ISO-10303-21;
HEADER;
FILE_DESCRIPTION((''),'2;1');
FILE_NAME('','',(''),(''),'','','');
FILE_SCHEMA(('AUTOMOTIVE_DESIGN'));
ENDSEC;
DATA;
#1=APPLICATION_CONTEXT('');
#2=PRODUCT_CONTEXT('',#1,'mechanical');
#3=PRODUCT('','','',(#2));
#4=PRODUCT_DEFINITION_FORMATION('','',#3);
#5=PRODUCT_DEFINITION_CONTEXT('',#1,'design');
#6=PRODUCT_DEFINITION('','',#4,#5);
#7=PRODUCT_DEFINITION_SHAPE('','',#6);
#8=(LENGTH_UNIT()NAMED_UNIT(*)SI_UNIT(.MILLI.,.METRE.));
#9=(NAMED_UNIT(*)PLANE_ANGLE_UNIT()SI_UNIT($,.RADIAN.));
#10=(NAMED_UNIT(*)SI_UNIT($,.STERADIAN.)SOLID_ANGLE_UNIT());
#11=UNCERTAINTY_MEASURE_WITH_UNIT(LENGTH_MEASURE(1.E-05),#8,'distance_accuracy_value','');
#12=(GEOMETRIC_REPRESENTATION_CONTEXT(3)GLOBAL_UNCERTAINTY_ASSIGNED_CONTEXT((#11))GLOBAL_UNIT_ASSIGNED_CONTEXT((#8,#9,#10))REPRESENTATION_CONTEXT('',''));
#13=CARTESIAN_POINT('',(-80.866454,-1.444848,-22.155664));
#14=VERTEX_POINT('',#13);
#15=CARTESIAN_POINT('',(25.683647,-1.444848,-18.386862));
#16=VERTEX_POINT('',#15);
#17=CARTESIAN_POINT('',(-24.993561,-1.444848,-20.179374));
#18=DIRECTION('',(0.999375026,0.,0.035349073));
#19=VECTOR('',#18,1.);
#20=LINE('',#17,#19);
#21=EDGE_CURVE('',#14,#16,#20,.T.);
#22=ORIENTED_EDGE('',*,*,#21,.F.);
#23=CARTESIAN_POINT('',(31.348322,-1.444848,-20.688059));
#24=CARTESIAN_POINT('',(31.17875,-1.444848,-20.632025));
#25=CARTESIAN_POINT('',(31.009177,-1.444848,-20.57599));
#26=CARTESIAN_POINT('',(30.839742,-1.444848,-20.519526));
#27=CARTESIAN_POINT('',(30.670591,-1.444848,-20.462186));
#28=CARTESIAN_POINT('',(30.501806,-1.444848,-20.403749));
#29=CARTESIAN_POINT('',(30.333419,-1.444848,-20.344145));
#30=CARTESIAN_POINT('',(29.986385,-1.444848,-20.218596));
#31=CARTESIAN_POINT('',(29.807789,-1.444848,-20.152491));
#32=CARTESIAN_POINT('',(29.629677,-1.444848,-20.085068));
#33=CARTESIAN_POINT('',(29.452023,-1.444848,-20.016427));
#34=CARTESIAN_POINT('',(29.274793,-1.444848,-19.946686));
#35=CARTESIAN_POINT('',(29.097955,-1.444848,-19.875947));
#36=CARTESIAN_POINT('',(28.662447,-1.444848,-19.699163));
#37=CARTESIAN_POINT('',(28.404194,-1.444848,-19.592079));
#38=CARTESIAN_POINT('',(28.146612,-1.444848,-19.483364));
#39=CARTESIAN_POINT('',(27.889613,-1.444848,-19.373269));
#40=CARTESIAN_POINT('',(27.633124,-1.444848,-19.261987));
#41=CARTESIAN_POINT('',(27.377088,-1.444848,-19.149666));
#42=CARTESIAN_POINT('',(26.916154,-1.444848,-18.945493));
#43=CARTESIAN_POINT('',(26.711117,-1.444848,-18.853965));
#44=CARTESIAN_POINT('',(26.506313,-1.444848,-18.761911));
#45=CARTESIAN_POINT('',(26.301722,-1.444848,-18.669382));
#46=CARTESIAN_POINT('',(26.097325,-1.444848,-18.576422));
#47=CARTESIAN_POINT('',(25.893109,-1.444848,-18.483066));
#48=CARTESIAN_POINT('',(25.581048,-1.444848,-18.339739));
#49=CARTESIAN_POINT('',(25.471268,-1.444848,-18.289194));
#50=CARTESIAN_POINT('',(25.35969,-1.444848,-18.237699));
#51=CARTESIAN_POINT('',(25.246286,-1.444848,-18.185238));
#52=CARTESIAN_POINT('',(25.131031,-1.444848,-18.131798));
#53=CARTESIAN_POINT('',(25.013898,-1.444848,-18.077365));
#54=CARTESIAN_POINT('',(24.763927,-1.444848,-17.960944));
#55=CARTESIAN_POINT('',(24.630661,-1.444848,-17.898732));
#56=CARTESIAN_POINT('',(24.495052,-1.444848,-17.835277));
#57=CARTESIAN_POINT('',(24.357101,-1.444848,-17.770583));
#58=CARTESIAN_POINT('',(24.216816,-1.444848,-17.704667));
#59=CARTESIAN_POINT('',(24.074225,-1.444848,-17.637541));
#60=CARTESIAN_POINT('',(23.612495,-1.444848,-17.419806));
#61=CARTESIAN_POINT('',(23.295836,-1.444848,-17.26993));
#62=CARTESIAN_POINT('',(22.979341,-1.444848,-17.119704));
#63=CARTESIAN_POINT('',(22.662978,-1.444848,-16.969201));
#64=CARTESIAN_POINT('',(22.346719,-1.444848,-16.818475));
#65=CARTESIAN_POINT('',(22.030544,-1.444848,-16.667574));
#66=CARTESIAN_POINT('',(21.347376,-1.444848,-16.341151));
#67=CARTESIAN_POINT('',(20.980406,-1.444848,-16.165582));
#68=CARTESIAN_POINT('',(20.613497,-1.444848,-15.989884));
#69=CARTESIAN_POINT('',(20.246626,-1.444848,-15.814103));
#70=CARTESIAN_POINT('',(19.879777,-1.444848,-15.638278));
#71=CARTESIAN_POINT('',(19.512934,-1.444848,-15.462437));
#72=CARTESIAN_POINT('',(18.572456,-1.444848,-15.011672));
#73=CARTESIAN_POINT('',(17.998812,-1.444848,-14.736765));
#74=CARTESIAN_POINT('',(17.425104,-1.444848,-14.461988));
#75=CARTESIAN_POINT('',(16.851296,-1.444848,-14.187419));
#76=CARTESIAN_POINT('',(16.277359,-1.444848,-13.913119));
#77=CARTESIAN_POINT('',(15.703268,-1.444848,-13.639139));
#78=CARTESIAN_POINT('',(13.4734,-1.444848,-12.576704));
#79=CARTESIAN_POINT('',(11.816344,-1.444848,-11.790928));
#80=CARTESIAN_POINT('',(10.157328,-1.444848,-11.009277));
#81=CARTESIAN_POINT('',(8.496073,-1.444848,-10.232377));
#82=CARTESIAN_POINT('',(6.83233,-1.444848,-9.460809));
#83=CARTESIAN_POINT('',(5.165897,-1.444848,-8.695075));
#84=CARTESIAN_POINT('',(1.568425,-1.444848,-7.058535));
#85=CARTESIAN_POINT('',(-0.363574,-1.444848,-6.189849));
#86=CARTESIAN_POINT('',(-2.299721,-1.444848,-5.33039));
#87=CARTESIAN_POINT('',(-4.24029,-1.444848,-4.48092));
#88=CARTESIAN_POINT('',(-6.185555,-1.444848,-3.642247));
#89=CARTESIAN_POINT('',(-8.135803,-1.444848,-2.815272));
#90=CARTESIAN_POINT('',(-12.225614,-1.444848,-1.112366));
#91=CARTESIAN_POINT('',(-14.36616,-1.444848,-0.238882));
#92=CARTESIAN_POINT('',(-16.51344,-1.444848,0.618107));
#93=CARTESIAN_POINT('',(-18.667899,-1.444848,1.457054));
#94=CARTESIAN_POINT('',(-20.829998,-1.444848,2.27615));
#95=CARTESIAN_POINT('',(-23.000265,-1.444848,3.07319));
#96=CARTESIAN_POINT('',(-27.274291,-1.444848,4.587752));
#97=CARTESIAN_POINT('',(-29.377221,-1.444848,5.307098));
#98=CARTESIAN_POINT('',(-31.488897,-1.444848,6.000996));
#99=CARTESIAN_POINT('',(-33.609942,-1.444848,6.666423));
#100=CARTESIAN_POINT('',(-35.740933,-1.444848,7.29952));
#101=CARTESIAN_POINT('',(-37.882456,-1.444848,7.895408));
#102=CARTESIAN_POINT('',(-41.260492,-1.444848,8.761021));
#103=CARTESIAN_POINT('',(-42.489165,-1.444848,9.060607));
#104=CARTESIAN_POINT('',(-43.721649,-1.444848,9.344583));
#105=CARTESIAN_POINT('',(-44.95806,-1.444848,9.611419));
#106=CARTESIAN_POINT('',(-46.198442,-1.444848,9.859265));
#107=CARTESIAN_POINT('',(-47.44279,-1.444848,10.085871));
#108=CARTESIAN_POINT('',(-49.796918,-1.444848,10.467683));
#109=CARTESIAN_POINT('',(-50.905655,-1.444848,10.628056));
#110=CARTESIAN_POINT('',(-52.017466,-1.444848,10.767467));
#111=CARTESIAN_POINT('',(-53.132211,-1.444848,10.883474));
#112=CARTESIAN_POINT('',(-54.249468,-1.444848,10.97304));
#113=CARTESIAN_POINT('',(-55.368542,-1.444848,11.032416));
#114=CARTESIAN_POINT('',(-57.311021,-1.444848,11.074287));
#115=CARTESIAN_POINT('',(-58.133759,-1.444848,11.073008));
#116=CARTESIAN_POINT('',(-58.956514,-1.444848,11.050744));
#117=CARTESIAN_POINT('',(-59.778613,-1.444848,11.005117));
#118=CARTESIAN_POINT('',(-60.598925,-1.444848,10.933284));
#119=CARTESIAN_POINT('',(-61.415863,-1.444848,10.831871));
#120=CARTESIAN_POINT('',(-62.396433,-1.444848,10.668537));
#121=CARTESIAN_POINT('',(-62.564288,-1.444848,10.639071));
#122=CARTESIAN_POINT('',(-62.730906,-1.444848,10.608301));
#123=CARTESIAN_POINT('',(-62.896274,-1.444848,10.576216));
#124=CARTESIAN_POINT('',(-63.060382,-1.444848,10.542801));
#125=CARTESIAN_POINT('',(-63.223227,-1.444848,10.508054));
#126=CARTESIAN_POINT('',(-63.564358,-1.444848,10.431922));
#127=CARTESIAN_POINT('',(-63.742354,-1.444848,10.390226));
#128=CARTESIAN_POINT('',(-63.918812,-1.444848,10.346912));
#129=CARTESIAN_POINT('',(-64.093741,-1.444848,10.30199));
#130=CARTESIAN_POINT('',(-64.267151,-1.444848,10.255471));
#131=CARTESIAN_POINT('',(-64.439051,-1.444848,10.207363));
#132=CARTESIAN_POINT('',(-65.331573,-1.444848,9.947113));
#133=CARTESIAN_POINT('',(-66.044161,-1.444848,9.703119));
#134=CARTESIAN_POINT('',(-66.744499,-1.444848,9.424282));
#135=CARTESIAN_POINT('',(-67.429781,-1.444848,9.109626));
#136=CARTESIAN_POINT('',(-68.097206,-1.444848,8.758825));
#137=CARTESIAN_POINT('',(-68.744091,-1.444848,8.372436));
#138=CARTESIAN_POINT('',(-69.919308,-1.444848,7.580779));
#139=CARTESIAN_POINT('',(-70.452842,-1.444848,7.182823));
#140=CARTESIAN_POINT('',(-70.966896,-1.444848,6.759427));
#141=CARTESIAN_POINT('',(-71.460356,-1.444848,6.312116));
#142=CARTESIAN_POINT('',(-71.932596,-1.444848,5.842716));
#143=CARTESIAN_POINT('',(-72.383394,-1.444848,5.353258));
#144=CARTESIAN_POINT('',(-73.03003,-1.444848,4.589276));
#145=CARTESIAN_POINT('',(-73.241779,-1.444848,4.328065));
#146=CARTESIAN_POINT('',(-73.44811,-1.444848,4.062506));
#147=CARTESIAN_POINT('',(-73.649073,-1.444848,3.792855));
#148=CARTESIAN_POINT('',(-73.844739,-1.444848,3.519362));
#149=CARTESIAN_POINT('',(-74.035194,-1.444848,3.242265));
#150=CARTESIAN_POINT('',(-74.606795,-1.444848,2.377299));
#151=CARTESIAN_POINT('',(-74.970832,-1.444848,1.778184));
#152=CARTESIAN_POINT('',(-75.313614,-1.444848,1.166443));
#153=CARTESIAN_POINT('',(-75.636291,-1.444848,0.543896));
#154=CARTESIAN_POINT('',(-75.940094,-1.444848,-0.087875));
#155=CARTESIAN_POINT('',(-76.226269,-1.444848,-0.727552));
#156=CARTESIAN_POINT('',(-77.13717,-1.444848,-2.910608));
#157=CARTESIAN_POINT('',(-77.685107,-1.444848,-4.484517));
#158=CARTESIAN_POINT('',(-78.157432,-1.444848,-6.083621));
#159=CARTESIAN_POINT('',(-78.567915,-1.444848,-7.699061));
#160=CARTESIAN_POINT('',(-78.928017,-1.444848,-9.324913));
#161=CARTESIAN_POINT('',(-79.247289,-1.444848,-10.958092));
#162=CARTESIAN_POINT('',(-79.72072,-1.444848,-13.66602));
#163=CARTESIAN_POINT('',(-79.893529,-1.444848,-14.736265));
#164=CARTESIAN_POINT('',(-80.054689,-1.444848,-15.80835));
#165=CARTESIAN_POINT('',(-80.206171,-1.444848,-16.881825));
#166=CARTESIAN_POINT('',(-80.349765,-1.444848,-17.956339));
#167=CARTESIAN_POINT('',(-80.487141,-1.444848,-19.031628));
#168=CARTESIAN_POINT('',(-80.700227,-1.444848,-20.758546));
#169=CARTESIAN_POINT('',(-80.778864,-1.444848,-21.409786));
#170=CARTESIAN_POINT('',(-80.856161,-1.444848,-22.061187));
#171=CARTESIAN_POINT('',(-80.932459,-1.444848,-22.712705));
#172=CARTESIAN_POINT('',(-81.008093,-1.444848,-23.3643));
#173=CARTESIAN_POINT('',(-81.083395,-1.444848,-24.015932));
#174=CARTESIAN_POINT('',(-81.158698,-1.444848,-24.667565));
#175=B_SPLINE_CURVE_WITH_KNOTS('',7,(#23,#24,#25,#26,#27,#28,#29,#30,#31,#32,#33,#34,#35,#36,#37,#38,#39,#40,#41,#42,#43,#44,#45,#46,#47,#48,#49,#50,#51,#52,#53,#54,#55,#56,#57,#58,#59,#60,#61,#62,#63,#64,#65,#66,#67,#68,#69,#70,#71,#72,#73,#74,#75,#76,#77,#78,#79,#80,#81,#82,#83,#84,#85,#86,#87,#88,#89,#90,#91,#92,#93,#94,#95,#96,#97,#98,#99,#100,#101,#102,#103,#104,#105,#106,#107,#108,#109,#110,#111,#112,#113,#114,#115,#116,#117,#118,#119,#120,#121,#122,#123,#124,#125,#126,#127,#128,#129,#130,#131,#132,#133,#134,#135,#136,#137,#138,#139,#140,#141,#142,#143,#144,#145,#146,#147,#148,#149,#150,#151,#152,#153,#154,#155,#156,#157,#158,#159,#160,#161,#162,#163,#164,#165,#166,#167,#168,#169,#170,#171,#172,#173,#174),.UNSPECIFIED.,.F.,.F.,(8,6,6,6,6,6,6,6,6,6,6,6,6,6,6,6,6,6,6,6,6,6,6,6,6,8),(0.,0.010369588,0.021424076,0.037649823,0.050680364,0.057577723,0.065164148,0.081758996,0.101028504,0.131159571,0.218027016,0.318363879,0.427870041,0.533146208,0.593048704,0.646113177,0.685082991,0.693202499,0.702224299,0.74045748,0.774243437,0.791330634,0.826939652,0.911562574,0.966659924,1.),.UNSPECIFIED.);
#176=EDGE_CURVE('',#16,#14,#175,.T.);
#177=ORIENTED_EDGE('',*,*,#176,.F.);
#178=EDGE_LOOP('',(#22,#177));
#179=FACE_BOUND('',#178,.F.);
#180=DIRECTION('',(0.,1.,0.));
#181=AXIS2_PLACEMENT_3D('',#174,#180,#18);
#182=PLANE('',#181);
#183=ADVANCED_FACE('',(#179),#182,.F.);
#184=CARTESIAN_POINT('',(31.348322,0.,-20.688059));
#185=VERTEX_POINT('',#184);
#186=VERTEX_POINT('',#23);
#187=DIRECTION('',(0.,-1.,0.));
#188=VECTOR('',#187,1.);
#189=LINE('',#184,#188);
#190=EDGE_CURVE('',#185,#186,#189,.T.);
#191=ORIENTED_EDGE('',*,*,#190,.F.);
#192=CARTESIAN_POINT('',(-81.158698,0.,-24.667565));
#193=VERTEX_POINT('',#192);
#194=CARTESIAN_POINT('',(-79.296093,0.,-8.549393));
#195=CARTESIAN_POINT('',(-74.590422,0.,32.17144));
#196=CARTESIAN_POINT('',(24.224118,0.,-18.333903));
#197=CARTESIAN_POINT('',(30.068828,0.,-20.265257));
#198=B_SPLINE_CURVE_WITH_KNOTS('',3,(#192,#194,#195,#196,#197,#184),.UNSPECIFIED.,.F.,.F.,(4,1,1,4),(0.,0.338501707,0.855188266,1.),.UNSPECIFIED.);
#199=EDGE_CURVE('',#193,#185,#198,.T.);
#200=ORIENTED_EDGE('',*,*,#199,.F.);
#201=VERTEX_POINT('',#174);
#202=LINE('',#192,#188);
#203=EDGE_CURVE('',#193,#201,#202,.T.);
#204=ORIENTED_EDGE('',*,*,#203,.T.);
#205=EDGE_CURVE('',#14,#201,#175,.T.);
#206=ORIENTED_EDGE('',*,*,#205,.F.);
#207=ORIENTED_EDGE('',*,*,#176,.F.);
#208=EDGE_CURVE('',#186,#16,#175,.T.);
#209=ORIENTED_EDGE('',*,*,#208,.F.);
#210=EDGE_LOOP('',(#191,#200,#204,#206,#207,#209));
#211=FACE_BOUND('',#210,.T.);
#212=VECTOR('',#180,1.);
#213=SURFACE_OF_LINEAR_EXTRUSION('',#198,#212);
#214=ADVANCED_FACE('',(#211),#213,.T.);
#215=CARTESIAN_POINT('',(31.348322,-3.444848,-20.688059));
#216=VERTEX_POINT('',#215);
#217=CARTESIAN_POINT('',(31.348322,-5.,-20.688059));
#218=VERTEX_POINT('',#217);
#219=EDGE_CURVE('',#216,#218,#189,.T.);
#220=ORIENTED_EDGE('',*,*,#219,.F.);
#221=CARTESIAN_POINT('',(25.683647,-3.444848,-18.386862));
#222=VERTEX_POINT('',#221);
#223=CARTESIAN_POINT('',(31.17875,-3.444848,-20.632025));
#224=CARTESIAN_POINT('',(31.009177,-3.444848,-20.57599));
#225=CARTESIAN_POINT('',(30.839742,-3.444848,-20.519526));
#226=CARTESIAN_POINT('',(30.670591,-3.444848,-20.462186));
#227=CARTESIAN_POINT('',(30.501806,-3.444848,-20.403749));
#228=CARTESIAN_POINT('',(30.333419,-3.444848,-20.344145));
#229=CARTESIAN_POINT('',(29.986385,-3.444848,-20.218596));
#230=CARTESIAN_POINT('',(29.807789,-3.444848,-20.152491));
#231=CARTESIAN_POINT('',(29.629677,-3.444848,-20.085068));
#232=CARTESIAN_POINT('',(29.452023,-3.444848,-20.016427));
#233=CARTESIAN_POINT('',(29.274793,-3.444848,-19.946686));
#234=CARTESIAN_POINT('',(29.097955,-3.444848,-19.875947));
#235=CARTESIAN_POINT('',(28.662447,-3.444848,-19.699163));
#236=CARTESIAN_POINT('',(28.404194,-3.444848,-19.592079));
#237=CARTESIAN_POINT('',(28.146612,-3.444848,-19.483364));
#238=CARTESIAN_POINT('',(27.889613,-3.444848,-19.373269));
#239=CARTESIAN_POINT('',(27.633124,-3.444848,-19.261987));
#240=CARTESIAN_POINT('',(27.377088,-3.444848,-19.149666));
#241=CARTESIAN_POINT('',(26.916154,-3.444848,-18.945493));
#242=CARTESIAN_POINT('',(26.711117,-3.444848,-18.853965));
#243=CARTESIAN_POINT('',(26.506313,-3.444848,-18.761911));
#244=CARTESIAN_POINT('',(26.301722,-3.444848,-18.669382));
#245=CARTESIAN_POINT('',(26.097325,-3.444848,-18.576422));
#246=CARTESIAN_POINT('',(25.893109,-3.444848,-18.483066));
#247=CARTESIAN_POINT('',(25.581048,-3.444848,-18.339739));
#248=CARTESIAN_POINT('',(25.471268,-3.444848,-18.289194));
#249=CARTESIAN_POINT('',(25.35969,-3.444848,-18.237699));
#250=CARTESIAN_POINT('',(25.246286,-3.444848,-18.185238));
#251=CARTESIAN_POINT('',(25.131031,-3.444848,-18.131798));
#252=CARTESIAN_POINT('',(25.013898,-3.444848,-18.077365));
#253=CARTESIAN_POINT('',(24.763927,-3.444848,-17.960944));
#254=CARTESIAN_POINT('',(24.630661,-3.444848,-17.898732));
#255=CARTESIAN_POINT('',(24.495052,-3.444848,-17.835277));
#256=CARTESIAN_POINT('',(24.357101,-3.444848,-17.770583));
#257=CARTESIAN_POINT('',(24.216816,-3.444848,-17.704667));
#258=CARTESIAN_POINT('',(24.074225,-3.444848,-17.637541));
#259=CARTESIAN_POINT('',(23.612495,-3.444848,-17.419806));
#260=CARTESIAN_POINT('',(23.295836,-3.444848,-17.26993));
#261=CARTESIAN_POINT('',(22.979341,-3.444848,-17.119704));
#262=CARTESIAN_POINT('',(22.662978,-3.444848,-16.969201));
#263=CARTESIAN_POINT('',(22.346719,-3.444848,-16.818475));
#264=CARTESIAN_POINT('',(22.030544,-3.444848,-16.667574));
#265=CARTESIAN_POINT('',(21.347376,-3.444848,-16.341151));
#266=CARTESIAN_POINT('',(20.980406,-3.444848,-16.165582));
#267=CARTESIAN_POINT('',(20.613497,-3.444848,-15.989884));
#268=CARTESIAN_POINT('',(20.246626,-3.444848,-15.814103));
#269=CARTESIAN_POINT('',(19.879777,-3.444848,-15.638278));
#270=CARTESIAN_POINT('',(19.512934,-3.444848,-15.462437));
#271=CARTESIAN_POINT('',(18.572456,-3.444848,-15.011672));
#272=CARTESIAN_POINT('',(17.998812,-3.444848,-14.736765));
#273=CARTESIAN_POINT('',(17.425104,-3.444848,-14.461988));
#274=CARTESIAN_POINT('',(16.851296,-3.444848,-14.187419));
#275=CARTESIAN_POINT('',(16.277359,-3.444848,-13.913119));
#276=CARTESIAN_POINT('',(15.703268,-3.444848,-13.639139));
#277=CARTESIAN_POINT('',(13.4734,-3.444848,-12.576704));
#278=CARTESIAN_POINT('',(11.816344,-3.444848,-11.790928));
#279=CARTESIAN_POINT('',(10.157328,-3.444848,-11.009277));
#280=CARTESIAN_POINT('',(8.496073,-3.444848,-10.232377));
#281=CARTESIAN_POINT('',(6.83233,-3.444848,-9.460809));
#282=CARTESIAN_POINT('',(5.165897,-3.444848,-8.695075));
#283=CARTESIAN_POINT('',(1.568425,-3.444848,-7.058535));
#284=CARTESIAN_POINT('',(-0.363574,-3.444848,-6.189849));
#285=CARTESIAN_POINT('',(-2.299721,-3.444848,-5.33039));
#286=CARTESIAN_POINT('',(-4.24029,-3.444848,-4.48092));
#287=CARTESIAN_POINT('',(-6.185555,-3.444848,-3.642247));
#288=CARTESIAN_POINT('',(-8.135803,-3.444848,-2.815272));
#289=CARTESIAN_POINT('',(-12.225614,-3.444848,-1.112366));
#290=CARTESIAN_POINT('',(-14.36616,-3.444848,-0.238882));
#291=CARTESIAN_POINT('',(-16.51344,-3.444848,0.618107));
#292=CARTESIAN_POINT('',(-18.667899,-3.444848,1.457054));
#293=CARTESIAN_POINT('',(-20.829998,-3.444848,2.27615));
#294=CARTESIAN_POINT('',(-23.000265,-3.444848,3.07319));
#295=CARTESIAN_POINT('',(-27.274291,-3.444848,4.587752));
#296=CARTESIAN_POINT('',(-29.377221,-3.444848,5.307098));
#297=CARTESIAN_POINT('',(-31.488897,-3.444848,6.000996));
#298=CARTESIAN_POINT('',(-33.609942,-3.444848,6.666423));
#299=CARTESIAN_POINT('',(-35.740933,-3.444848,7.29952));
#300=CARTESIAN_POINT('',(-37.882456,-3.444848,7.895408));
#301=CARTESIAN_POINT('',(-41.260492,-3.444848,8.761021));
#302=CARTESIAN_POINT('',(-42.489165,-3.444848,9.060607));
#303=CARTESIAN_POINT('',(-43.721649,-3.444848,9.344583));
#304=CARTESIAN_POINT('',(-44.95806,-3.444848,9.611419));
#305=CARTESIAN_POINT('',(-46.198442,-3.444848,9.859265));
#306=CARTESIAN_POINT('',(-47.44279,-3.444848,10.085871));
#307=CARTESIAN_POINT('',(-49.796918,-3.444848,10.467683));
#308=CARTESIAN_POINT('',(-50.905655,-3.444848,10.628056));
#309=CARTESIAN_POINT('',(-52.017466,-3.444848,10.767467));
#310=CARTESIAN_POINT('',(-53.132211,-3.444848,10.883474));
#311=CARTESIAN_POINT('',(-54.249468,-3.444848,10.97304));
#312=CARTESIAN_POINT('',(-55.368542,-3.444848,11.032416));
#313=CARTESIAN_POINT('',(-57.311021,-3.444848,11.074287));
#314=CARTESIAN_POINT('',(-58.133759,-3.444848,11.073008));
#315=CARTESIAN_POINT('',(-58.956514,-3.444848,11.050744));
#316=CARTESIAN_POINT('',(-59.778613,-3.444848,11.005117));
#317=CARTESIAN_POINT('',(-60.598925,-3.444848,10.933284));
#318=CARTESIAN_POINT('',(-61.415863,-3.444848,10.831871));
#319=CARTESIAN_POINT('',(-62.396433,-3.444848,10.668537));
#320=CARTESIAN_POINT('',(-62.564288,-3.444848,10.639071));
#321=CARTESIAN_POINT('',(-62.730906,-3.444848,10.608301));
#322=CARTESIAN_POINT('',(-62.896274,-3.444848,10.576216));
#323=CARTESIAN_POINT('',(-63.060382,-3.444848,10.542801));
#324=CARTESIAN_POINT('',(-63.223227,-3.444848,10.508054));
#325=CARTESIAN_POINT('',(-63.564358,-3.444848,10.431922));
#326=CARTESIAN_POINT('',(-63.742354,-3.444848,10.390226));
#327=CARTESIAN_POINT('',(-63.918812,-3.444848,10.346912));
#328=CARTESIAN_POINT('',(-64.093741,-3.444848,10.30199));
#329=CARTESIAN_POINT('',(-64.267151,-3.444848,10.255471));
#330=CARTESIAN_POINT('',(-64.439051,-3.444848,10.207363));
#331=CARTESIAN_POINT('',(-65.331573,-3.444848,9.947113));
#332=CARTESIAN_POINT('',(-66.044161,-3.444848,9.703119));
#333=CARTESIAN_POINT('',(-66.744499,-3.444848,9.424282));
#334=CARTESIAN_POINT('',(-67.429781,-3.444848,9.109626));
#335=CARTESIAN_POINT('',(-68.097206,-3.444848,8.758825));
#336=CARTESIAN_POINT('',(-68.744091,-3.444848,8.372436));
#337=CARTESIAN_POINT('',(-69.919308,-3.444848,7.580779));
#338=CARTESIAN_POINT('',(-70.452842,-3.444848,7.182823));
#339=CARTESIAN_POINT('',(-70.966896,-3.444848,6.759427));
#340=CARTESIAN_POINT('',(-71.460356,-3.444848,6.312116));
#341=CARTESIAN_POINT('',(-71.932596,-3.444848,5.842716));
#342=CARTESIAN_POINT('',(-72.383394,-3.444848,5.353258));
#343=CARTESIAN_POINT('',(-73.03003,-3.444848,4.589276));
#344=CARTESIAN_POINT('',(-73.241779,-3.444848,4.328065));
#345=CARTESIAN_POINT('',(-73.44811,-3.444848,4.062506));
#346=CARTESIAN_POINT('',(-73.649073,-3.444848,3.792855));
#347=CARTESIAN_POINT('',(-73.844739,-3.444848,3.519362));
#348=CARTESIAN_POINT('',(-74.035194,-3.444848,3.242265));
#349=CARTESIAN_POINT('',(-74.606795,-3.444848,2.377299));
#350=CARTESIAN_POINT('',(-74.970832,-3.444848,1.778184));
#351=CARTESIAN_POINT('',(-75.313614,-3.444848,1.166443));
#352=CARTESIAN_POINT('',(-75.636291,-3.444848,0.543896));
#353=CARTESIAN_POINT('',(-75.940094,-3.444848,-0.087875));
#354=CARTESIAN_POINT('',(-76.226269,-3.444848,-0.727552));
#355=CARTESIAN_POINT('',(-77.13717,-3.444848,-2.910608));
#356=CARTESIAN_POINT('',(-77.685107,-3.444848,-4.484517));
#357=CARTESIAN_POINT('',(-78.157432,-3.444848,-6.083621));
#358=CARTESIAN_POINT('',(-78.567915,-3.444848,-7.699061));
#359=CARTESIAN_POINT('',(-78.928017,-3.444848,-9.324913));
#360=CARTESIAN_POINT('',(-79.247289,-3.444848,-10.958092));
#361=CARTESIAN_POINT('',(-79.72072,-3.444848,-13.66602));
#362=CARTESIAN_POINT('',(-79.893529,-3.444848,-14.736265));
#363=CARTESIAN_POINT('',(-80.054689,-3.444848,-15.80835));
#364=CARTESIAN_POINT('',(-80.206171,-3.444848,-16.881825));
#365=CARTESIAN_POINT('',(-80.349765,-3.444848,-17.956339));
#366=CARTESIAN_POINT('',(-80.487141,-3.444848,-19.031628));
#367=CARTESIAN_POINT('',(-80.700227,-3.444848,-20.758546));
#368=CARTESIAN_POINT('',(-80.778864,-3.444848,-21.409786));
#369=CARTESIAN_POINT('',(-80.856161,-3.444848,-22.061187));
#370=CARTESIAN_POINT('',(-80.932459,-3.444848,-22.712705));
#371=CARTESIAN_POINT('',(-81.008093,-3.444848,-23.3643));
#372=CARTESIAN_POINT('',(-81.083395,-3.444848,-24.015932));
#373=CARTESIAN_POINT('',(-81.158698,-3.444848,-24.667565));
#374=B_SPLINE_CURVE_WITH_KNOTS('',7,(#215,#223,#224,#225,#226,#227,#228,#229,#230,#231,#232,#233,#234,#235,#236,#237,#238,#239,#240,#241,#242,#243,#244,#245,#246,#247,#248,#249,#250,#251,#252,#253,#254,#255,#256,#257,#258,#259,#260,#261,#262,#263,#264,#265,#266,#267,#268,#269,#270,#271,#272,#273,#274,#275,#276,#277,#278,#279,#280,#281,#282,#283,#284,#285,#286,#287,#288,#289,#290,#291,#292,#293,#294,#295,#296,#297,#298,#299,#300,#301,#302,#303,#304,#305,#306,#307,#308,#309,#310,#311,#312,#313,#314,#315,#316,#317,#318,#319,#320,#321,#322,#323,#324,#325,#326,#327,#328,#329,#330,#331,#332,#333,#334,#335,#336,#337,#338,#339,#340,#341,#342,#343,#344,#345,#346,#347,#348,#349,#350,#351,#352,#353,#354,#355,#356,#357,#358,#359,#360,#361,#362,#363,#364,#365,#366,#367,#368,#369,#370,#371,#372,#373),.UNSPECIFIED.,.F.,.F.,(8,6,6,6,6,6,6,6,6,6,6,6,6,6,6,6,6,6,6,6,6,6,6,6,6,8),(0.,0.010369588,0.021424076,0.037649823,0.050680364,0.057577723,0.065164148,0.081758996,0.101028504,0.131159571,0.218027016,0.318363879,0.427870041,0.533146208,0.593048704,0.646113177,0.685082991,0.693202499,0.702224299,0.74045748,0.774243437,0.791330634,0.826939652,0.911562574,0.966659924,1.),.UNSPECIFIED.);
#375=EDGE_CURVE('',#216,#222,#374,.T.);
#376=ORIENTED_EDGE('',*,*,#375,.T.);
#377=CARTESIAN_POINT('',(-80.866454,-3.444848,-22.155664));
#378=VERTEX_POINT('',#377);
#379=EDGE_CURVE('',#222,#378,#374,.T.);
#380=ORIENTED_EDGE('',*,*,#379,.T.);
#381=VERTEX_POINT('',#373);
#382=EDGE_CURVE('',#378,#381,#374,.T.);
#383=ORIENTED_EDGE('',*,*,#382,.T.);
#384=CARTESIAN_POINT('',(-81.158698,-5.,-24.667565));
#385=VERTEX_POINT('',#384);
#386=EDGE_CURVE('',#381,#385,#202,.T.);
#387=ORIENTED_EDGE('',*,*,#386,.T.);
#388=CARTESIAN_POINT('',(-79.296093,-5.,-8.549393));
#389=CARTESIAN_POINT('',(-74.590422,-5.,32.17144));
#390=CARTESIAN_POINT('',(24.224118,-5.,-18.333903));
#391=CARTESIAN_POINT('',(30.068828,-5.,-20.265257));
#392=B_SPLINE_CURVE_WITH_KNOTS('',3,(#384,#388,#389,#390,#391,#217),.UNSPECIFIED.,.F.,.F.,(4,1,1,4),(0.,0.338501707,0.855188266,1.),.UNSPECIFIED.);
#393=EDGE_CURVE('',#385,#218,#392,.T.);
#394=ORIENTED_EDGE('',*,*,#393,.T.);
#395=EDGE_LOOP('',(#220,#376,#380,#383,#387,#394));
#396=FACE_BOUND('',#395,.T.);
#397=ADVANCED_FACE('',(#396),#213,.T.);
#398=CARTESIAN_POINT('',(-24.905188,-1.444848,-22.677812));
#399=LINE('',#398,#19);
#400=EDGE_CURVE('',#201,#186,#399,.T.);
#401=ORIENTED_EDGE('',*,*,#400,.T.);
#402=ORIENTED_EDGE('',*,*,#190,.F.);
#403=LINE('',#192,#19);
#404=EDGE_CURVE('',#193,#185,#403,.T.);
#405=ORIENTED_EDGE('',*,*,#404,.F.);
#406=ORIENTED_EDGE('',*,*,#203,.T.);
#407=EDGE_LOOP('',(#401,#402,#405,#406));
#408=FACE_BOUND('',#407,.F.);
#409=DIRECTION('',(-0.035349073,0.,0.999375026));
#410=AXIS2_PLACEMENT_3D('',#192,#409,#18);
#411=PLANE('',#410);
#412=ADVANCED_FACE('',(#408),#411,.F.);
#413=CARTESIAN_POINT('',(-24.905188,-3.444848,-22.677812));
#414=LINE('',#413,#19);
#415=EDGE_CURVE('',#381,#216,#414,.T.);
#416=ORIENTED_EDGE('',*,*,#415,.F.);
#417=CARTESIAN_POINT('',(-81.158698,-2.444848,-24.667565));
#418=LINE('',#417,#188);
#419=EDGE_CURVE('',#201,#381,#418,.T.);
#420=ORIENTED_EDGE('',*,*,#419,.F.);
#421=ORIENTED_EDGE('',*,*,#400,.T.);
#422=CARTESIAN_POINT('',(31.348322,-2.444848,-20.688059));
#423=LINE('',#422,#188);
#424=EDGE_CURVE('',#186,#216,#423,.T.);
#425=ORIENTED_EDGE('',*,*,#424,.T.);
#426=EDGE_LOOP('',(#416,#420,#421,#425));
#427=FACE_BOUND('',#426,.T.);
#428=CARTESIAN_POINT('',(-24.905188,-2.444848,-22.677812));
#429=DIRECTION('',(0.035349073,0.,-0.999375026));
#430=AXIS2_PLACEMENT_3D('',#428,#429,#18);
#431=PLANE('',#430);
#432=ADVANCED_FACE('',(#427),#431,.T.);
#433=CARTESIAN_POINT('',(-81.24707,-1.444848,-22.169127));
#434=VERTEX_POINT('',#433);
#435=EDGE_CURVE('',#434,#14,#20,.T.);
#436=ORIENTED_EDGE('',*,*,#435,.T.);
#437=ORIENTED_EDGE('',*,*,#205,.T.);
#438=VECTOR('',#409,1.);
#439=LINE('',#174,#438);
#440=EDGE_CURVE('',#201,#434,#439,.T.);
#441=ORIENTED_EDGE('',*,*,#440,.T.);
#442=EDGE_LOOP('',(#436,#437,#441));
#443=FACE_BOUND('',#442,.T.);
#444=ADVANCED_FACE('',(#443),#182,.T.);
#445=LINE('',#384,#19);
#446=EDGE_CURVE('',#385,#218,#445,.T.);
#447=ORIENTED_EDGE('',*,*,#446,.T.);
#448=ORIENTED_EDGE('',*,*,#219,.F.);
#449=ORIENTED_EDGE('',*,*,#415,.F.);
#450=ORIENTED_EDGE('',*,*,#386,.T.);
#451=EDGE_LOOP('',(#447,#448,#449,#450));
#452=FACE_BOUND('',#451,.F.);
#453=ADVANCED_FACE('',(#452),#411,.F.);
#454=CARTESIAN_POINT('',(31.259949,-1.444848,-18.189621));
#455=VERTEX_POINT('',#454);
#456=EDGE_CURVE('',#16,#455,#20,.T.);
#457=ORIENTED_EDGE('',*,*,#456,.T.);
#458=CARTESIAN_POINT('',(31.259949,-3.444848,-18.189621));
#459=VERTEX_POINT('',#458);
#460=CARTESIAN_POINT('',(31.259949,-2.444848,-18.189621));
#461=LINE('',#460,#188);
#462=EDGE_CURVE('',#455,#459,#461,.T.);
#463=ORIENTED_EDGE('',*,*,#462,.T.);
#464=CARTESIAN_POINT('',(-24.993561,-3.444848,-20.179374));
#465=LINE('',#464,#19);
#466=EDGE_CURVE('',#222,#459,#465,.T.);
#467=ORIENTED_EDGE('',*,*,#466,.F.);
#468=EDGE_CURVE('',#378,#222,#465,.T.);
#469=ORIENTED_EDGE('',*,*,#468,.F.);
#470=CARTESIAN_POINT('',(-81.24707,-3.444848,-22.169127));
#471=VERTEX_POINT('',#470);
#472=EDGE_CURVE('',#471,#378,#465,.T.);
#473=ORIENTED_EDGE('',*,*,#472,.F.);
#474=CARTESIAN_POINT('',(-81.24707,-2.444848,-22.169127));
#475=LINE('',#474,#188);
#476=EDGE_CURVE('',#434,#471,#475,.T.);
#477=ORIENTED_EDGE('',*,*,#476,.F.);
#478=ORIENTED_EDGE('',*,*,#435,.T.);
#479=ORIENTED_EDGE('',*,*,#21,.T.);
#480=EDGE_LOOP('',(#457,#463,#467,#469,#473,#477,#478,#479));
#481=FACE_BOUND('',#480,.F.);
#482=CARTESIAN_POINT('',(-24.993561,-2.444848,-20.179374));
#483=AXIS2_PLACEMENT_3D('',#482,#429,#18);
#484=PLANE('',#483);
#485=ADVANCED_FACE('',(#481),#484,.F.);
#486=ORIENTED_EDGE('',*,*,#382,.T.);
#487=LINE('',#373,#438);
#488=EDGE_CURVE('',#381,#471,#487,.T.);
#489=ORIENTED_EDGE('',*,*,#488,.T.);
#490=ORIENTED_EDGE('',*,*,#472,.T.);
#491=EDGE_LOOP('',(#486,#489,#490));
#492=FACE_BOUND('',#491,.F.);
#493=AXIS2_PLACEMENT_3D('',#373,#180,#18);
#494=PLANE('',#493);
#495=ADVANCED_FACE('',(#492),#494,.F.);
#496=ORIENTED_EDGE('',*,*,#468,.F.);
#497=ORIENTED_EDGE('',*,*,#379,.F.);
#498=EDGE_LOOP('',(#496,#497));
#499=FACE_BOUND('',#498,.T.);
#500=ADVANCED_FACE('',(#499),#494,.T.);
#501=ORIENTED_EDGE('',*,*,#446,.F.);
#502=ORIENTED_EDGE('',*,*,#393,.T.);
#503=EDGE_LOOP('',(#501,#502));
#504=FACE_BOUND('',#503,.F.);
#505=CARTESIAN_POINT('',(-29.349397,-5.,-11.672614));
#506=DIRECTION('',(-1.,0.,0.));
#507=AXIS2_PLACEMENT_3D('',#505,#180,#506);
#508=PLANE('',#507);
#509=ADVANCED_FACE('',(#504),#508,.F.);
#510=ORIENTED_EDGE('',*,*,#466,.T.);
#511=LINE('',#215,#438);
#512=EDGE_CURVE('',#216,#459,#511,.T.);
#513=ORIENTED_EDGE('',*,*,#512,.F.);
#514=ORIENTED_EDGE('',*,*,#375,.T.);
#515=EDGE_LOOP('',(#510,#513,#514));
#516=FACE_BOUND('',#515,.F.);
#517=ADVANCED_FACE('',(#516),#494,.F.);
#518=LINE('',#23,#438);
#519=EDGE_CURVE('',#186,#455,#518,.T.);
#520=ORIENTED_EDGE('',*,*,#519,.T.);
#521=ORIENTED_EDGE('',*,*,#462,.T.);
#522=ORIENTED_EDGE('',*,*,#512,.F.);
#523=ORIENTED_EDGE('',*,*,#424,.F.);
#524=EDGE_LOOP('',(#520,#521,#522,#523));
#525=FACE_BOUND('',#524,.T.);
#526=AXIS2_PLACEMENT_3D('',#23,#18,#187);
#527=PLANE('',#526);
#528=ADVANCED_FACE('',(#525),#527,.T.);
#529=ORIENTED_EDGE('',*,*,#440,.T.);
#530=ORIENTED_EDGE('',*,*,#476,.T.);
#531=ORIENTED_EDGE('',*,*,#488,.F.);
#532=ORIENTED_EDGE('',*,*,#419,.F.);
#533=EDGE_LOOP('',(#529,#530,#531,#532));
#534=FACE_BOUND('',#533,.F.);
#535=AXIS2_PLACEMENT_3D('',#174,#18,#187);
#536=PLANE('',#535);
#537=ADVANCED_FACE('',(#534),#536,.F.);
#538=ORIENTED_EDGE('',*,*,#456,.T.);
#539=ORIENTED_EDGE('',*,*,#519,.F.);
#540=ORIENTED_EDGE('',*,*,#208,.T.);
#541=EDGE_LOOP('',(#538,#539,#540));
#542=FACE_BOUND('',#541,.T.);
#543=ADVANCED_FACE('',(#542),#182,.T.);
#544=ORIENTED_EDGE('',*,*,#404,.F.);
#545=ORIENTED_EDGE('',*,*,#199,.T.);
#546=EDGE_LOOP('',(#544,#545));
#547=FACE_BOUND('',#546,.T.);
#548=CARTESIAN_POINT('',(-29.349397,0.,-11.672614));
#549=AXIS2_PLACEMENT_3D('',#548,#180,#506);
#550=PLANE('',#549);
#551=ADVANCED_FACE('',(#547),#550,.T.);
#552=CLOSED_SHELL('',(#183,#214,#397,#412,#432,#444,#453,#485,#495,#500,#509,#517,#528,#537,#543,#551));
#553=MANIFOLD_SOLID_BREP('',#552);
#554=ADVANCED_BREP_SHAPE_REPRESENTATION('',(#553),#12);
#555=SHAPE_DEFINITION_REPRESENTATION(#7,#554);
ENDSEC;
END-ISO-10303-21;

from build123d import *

# Parameters (mm, degrees)
F1_DEPTH = 5
F2_W     = 112.5773771023
F2_H     = 2
F3_DEPTH = 60.198
F4_DEPTH = 2.5


with BuildPart() as f1:
    # F0 (on Front) → F1 (new body)
    with BuildSketch(Plane.XZ):
        with BuildLine():
            add(Edge.make_bspline(
                [(-81.1586976051, -24.6675647795), (-79.2960930719, -8.5493928656), (-74.5904224448, 32.1714401323), (24.2241178131, -18.3339028992), (30.068828254, -20.2652569227), (31.3483215868, -20.6880588084)],
                knots=[0, 0, 0, 0, 0.3385017071, 0.8551882657, 1, 1, 1, 1], degree=3))
            Line((-81.1586976051, -24.6675647795), (31.3483215868, -20.6880588084))
        make_face()
    extrude(amount=F1_DEPTH)

    # F2 (on face) → F3 (cut)
    with BuildSketch(Plane(origin=(0.770018179, 0, -21.7696494672), x_dir=(0.9993750262, 0, 0.0353490734), z_dir=(0.0353490734, 0, -0.9993750262))):
        with Locations((-25.6912625539, 2.4448475558)):
            Rectangle(F2_W, F2_H)
    extrude(amount=-F3_DEPTH, mode=Mode.SUBTRACT)

    # F2 (on face) → F4 (join)
    with BuildSketch(Plane(origin=(0.770018179, 0, -21.7696494672), x_dir=(0.9993750262, 0, 0.0353490734), z_dir=(0.0353490734, 0, -0.9993750262))):
        with Locations((-25.6912625539, 2.4448475558)):
            Rectangle(F2_W, F2_H)
    extrude(amount=-F4_DEPTH)


solid = f1.part
